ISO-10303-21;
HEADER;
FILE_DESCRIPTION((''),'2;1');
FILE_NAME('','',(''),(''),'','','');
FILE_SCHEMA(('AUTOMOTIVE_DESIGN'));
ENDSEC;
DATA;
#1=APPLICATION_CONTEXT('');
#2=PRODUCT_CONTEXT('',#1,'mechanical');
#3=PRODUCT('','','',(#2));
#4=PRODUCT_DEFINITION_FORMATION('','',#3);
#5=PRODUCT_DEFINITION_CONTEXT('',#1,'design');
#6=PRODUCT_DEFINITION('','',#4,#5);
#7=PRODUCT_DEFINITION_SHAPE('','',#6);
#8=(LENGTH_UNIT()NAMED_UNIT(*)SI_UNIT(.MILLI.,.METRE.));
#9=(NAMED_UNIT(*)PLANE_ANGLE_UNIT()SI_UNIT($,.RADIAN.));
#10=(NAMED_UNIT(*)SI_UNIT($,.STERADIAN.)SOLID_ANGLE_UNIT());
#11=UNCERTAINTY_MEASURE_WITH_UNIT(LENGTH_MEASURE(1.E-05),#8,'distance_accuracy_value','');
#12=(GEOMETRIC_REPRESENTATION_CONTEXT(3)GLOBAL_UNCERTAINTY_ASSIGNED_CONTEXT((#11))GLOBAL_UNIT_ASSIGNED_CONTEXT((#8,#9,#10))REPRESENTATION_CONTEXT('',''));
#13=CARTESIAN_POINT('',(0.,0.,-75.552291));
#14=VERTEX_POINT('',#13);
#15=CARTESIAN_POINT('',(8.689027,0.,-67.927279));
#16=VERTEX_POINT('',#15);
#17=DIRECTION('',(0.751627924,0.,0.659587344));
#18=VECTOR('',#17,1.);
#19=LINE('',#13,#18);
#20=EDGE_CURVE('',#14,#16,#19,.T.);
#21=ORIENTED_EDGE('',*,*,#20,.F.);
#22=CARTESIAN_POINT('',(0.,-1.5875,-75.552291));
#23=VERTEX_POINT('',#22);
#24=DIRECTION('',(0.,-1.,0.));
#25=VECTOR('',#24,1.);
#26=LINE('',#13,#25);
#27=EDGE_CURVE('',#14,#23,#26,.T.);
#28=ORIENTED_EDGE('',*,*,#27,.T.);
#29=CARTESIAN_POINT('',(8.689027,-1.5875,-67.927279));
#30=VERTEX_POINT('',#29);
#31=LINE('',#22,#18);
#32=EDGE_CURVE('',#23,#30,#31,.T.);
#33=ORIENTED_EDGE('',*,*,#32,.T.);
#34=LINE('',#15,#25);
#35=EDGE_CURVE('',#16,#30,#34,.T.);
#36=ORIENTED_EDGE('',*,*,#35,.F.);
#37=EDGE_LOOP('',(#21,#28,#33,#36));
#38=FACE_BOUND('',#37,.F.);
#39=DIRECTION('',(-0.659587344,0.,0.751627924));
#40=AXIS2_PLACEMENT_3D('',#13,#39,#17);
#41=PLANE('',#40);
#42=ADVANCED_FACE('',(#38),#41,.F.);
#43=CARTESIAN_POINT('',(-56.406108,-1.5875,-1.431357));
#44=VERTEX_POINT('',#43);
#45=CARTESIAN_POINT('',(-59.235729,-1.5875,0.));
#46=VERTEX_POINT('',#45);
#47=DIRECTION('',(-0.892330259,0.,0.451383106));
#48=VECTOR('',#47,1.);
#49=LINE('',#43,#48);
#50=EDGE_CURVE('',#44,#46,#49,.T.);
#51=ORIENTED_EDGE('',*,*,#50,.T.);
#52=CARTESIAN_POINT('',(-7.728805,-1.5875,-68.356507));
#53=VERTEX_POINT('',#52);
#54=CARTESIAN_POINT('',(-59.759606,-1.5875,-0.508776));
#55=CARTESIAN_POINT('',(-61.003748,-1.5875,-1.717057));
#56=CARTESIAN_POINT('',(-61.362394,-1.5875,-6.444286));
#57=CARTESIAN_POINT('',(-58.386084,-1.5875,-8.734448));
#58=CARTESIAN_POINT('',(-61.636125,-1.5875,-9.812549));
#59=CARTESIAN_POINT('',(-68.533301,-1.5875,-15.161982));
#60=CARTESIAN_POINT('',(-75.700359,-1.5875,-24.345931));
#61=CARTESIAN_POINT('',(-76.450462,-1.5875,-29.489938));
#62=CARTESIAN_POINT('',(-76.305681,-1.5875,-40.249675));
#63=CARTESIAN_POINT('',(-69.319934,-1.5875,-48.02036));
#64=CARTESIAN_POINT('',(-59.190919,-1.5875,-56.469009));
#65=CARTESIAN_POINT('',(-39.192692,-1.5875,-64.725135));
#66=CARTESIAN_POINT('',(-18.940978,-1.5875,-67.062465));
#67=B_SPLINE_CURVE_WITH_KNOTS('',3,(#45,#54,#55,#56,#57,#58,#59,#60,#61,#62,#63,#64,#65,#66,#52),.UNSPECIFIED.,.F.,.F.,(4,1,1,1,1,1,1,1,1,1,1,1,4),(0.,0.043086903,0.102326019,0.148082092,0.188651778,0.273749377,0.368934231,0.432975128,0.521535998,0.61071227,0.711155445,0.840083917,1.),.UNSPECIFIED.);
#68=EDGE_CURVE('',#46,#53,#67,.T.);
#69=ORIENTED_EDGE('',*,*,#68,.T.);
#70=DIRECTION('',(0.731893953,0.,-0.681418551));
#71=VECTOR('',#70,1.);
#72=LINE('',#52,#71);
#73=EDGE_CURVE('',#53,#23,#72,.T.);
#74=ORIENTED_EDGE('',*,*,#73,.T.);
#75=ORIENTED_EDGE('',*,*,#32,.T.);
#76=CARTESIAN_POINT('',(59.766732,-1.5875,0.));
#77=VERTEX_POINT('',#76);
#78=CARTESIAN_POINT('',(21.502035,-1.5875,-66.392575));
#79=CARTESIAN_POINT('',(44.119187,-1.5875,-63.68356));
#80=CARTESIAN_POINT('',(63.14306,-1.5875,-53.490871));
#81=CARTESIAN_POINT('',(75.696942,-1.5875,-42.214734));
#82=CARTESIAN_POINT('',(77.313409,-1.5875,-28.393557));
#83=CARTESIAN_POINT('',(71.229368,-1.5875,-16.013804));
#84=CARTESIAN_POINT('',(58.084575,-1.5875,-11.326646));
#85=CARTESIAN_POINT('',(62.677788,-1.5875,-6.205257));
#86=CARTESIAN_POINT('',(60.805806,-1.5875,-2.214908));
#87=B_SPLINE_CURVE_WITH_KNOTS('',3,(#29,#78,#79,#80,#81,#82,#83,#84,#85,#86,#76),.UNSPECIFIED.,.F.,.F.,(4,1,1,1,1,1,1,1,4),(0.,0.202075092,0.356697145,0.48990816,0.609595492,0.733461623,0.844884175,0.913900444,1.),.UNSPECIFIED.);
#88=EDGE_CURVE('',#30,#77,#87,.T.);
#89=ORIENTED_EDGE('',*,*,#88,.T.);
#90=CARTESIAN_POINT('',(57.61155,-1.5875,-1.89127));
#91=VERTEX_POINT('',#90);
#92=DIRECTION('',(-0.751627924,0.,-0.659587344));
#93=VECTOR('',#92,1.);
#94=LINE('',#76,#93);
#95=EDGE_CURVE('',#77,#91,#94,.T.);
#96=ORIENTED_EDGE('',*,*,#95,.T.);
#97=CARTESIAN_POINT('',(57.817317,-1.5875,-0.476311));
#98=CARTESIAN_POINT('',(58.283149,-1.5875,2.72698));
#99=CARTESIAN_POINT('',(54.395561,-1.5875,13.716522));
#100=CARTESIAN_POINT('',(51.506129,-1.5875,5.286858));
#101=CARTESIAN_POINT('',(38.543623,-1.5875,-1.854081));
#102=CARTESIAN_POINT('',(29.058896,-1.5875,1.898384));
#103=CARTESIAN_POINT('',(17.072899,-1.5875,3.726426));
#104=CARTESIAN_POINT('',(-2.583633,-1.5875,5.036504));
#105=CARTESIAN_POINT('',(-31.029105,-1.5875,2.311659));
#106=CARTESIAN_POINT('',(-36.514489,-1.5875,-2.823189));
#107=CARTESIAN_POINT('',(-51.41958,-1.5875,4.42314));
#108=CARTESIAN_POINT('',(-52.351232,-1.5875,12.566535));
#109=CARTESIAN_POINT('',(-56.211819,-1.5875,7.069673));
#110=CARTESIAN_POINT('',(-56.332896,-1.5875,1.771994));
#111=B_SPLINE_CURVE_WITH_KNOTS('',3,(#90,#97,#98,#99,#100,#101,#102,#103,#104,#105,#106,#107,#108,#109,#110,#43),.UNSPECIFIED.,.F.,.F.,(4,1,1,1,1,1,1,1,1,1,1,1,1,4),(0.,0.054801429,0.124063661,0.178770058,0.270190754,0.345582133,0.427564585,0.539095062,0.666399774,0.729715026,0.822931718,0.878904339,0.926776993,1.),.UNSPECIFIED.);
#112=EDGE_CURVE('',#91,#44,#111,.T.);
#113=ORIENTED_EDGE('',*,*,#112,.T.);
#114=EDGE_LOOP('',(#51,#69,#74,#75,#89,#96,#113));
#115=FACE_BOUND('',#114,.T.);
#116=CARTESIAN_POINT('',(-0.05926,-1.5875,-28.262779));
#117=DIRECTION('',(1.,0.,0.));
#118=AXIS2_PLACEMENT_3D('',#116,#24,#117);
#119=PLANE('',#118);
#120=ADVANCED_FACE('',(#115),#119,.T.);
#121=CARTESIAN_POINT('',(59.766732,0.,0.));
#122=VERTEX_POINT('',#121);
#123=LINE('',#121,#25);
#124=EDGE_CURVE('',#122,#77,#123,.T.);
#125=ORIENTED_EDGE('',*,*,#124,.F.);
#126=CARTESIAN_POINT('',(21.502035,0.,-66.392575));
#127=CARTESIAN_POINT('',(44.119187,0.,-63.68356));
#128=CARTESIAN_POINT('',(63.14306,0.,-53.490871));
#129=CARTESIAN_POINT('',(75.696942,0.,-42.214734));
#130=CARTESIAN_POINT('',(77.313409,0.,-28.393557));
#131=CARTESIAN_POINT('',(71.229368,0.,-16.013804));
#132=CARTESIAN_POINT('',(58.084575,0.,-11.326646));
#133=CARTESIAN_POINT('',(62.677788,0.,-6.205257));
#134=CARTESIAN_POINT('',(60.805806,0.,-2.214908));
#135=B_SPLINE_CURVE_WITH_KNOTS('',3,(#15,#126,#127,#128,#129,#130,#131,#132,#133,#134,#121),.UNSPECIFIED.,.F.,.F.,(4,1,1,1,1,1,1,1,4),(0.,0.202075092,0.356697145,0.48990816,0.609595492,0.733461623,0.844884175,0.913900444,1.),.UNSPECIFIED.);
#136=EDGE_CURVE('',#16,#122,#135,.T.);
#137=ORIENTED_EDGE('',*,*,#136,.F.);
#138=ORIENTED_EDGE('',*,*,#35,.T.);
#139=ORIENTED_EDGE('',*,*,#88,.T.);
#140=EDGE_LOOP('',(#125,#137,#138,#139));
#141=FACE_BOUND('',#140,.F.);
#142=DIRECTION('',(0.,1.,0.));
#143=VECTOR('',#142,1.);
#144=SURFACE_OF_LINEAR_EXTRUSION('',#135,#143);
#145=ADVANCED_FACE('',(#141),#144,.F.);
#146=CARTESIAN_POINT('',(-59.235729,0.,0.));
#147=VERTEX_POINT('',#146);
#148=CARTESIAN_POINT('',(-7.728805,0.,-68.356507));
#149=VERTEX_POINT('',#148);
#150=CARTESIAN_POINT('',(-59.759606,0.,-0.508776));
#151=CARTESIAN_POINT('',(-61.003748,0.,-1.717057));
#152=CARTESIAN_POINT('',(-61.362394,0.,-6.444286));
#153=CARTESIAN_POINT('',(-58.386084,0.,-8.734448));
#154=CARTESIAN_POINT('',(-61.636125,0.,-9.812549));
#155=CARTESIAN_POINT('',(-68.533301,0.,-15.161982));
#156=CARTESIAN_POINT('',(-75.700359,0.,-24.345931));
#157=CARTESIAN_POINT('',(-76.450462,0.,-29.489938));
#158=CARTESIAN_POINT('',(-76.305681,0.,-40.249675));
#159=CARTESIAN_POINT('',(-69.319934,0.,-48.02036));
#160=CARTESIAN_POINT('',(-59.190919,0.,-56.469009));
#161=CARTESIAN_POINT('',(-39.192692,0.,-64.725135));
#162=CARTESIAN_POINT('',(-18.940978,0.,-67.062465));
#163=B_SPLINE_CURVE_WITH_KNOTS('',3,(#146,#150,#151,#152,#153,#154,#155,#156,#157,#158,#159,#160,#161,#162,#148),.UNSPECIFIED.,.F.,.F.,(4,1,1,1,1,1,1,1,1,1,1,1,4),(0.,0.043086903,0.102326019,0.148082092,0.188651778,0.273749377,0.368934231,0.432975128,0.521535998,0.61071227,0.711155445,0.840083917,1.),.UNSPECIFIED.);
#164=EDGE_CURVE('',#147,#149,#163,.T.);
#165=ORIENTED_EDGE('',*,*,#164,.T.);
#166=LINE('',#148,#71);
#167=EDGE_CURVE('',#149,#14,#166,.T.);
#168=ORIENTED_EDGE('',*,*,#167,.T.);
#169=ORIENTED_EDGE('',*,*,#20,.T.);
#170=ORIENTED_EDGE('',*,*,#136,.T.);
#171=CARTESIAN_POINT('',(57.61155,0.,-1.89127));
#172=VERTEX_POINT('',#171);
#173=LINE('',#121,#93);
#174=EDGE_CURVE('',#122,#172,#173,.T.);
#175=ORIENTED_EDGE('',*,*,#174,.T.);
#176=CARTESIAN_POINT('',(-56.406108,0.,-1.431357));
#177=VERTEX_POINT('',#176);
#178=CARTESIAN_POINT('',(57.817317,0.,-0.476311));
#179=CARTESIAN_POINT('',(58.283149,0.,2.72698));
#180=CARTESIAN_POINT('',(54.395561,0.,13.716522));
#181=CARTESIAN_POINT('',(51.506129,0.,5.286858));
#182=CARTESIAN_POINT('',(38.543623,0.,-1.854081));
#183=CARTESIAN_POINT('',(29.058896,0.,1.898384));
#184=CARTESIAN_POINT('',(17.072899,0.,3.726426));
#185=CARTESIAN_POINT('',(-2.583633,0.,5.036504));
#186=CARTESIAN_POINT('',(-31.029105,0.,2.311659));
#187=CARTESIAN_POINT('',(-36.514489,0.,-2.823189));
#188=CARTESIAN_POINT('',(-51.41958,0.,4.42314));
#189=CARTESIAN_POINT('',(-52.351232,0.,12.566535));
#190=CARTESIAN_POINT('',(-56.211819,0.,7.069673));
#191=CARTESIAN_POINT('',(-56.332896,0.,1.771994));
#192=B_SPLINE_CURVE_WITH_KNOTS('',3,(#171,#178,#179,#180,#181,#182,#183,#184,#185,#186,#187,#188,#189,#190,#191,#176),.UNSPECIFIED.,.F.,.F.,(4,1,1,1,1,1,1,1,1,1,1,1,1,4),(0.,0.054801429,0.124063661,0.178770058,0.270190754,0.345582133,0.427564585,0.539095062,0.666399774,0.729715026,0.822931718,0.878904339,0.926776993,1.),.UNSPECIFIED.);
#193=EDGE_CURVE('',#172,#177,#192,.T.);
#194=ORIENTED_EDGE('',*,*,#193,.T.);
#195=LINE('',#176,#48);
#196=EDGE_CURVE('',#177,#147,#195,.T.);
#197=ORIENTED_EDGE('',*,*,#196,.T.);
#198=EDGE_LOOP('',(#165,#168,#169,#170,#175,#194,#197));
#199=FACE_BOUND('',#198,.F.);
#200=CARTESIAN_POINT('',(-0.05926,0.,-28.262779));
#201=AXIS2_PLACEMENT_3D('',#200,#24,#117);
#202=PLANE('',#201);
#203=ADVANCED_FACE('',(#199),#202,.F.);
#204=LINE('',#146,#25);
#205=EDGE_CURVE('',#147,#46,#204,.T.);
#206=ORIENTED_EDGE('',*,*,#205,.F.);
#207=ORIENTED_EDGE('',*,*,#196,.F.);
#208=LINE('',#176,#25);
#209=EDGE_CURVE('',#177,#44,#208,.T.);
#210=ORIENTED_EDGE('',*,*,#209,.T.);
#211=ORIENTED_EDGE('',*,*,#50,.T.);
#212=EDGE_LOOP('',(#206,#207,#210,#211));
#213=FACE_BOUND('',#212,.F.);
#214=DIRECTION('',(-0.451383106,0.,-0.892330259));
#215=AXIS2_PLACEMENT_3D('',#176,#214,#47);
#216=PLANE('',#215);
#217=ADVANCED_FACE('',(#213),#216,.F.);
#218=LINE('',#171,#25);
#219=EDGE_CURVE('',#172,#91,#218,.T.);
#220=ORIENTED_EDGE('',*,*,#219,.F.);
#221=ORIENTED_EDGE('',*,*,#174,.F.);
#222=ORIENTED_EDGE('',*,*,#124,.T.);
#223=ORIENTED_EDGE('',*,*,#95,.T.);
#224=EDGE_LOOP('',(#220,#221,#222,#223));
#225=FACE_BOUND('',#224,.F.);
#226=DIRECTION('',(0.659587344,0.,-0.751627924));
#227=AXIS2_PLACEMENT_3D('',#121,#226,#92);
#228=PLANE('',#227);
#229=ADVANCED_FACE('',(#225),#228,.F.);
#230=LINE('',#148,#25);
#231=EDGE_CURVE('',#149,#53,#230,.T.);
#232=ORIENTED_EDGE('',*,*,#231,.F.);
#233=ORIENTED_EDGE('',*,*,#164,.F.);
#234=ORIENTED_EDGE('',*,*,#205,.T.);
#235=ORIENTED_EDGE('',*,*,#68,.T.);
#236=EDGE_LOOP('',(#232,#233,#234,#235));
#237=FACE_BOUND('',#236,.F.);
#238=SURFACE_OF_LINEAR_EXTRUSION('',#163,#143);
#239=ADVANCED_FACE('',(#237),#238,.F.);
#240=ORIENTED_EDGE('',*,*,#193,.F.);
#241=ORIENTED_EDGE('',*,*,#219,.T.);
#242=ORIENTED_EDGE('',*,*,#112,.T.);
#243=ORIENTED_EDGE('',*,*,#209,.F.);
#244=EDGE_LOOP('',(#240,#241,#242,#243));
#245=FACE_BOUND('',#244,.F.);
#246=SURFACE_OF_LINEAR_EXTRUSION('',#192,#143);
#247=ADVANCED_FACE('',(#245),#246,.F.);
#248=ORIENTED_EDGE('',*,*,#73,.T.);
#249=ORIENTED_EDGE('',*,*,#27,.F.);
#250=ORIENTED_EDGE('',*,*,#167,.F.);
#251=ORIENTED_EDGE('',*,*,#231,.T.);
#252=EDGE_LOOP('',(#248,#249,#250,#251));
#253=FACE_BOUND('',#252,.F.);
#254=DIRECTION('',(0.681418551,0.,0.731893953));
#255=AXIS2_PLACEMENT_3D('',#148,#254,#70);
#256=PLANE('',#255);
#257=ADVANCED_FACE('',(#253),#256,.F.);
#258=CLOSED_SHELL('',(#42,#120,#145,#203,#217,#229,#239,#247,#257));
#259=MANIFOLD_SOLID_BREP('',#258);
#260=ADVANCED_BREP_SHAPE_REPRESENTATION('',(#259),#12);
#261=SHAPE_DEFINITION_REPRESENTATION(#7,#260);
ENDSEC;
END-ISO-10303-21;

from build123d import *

# Parameters (mm, degrees)
F1_DEPTH = 1.5875
F2_DEPTH = 1.5875


with BuildPart() as f1:
    # F0 (on Front) → F1 (new body)
    with BuildSketch(Plane.XZ):
        with BuildLine():
            add(Edge.make_bspline(
                [(-59.2357292771, 0), (-59.7596059699, -0.5087763955), (-61.00374777, -1.7170568732), (-61.3623939884, -6.4442855853), (-58.3860835137, -8.7344477825), (-61.6361250655, -9.812548713), (-68.5333012636, -15.1619816081), (-75.7003591382, -24.3459306528), (-76.4504615567, -29.4899375643), (-76.3056806318, -40.2496750458), (-69.3199338704, -48.02035996), (-59.1909187166, -56.46900862), (-39.1926921937, -64.7251350769), (-18.9409775047, -67.0624654511), (-7.7288052998, -68.3565065265)],
                knots=[0, 0, 0, 0, 0.0430869026, 0.1023260194, 0.1480820916, 0.1886517783, 0.273749377, 0.368934231, 0.4329751281, 0.521535998, 0.6107122698, 0.7111554455, 0.8400839171, 1, 1, 1, 1], degree=3))
            Line((-7.7288052998, -68.3565065265), (0, -75.5522912198))
            Line((0, -75.5522912198), (8.6890272796, -67.9272785783))
            add(Edge.make_bspline(
                [(8.6890272796, -67.9272785783), (21.5020345675, -66.3925749588), (44.1191868011, -63.6835602353), (63.1430598193, -53.4908705309), (75.6969418313, -42.2147338387), (77.3134091979, -28.3935571418), (71.2293681343, -16.0138035637), (58.0845752111, -11.3266463316), (62.6777880395, -6.2052573904), (60.8058061073, -2.2149081201), (59.7667321563, 0)],
                knots=[0, 0, 0, 0, 0.2020750921, 0.3566971451, 0.4899081604, 0.6095954924, 0.7334616233, 0.8448841751, 0.9139004441, 1, 1, 1, 1], degree=3))
            Line((59.7667321563, 0), (57.6115497291, -1.891269612))
            add(Edge.make_bspline(
                [(57.6115497291, -1.891269612), (57.8173171438, -0.4763111229), (58.2831491365, 2.7269799993), (54.3955609907, 13.7165221365), (51.5061285832, 5.2868580937), (38.5436234556, -1.8540809789), (29.0588963585, 1.8983841422), (17.0728993683, 3.7264259799), (-2.5836330622, 5.0365044878), (-31.0291045292, 2.3116589866), (-36.5144885565, -2.8231885653), (-51.4195797017, 4.4231399421), (-52.351231671, 12.5665350661), (-56.2118192651, 7.0696730875), (-56.3328961042, 1.7719943046), (-56.4061077302, -1.4313572253)],
                knots=[0, 0, 0, 0, 0.0548014286, 0.1240636607, 0.1787700579, 0.2701907538, 0.3455821333, 0.4275645849, 0.5390950617, 0.6663997735, 0.7297150258, 0.8229317182, 0.8789043387, 0.9267769928, 1, 1, 1, 1], degree=3))
            Line((-56.4061077302, -1.4313572253), (-59.2357292771, 0))
        make_face()
        with BuildLine():
            ThreePointArc((62.7712979913, -48.2902638614), (36.0960540485, -60.801373499), (6.8648238666, -64.4934847951))
            Line((6.8648238666, -64.4934847951), (1.070294762, -70.7172378898))
            Line((1.070294762, -70.7172378898), (-5.4487906159, -64.6477442285))
            ThreePointArc((-5.4487906159, -64.6477442285), (-33.1849145902, -61.6573470529), (-59.1284260154, -51.4021404088))
            ThreePointArc((-59.1284260154, -51.4021404088), (-68.2041566517, -43.490922661), (-72.6489946246, -32.3016569018))
            ThreePointArc((-72.6489946246, -32.3016569018), (-70.5167481856, -24.2359465298), (-65.4594823718, -17.6007207483))
            ThreePointArc((-65.4594823718, -17.6007207483), (-60.7158899758, -13.6643104627), (-55.4800182581, -10.4112131521))
            ThreePointArc((-55.4800182581, -10.4112131521), (-57.7695720252, -7.8990729249), (-57.5188361108, -4.5093772933))
            ThreePointArc((-57.5188361108, -4.5093772933), (-54.6818050534, -6.009346749), (-51.5096895397, -6.4954915385))
            ThreePointArc((-51.5096895397, -6.4954915385), (-53.4709468256, -0.8916203218), (-53.7065769196, 5.0408649258))
            ThreePointArc((-53.7065769196, 5.0408649258), (-45.6081761104, -0.0632483052), (-37.1306762099, -4.5093772933))
            ThreePointArc((-37.1306762099, -4.5093772933), (0.2651828003, 1.2478062211), (37.7689823508, -3.7582353689))
            ThreePointArc((37.7689823508, -3.7582353689), (46.2458250792, -0.0220776028), (53.5429753363, 5.6847021915))
            ThreePointArc((53.5429753363, 5.6847021915), (54.6067557991, -0.7157013162), (52.2553026676, -6.7628049292))
            Line((52.2553026676, -6.7628049292), (58.3717487752, -4.2947647162))
            ThreePointArc((58.3717487752, -4.2947647162), (57.7853929693, -7.9420748723), (55.7964034379, -11.0550485551))
            ThreePointArc((55.7964034379, -11.0550485551), (65.3527326965, -17.9155744287), (71.5704038739, -27.9021058232))
            ThreePointArc((71.5704038739, -27.9021058232), (70.5523756086, -39.5555807138), (62.7712979913, -48.2902638614))
        make_face(mode=Mode.SUBTRACT)
        with BuildLine():
            Line((1.070294762, -70.7172378898), (6.8648238666, -64.4934847951))
            ThreePointArc((6.8648238666, -64.4934847951), (36.0960540485, -60.801373499), (62.7712979913, -48.2902638614))
            ThreePointArc((62.7712979913, -48.2902638614), (70.5523756086, -39.5555807138), (71.5704038739, -27.9021058232))
            ThreePointArc((71.5704038739, -27.9021058232), (65.3527326965, -17.9155744287), (55.7964034379, -11.0550485551))
            ThreePointArc((55.7964034379, -11.0550485551), (57.7853929693, -7.9420748723), (58.3717487752, -4.2947647162))
            Line((58.3717487752, -4.2947647162), (52.2553026676, -6.7628049292))
            ThreePointArc((52.2553026676, -6.7628049292), (54.6067557991, -0.7157013162), (53.5429753363, 5.6847021915))
            ThreePointArc((53.5429753363, 5.6847021915), (46.2458250792, -0.0220776028), (37.7689823508, -3.7582353689))
            ThreePointArc((37.7689823508, -3.7582353689), (0.2651828003, 1.2478062211), (-37.1306762099, -4.5093772933))
            ThreePointArc((-37.1306762099, -4.5093772933), (-45.6081761104, -0.0632483052), (-53.7065769196, 5.0408649258))
            ThreePointArc((-53.7065769196, 5.0408649258), (-53.4709468256, -0.8916203218), (-51.5096895397, -6.4954915385))
            ThreePointArc((-51.5096895397, -6.4954915385), (-54.6818050534, -6.009346749), (-57.5188361108, -4.5093772933))
            ThreePointArc((-57.5188361108, -4.5093772933), (-57.7695720252, -7.8990729249), (-55.4800182581, -10.4112131521))
            ThreePointArc((-55.4800182581, -10.4112131521), (-60.7158899758, -13.6643104627), (-65.4594823718, -17.6007207483))
            ThreePointArc((-65.4594823718, -17.6007207483), (-70.5167481856, -24.2359465298), (-72.6489946246, -32.3016569018))
            ThreePointArc((-72.6489946246, -32.3016569018), (-68.2041566517, -43.490922661), (-59.1284260154, -51.4021404088))
            ThreePointArc((-59.1284260154, -51.4021404088), (-33.1849145902, -61.6573470529), (-5.4487906159, -64.6477442285))
            Line((-5.4487906159, -64.6477442285), (1.070294762, -70.7172378898))
        make_face()
        with BuildLine():
            Line((-50.0074103475, -16.6349653155), (-48.6124269664, -17.8153328598))
            ThreePointArc((-48.6124269664, -17.8153328598), (-51.8600237223, -24.9776982035), (-51.617000252, -32.8381881118))
            Line((-51.617000252, -32.8381881118), (-55.265404284, -31.2285963446))
            add(Edge.make_bspline(
                [(-17.386354506, -50.1144677401), (-22.9724960998, -50.7953987205), (-34.2706963945, -52.172609533), (-50.5425044692, -43.6572072192), (-55.9866739518, -36.4960401055), (-55.4837729561, -32.8233462017), (-55.265404284, -31.2285963446)],
                knots=[0, 0, 0, 0, 0.3075519395, 0.6220364012, 0.8358813963, 1, 1, 1, 1], degree=3))
            Line((-17.386354506, -50.1144677401), (-19.6397826076, -54.7286309302))
            Line((-19.6397826076, -54.7286309302), (-13.4160285816, -53.1190410256))
            Line((-13.4160285816, -53.1190410256), (-9.3383966014, -60.4158528149))
            add(Edge.make_bspline(
                [(-50.0074103475, -16.6349653155), (-53.6208253934, -19.8234806389), (-60.8507431395, -26.2032358643), (-58.762664158, -42.3664765964), (-45.2648255888, -50.4822624002), (-35.7544140532, -56.0293491905), (-24.0468068887, -58.3858298268), (-9.5907632304, -60.4486232358), (-9.3576538975, -60.4183534217), (-9.3383966014, -60.4158528149)],
                knots=[0, 0, 0, 0, 0.1667763218, 0.3336951535, 0.5081392217, 0.6555495119, 0.821499441, 0.9852539661, 1, 1, 1, 1], degree=3))
        make_face(mode=Mode.SUBTRACT)
        with BuildLine():
            add(Edge.make_bspline(
                [(-40.3498597443, -22.5368011743), (-41.6391102014, -25.8708730448), (-44.2569145923, -32.6406577166), (-36.2841632265, -42.0200499295), (-19.5902032399, -44.9502171335), (-13.4243927469, -40.3096247345), (-10.6453151963, -38.2179992827)],
                knots=[0, 0, 0, 0, 0.2314315656, 0.4699184438, 0.7610796254, 1, 1, 1, 1], degree=3))
            Line((-40.3498597443, -22.5368011743), (-35.7662363223, -24.5589901806))
            add(Edge.make_bspline(
                [(-13.523333706, -36.7012061179), (-15.4137632298, -38.2771311693), (-19.5801724988, -41.7503887856), (-31.4195201419, -41.4414108341), (-38.8194485242, -33.5612417818), (-36.776895956, -27.5388722538), (-35.7662363223, -24.5589901806)],
                knots=[0, 0, 0, 0, 0.2280173022, 0.5025383857, 0.7538548673, 1, 1, 1, 1], degree=3))
            Line((-13.523333706, -36.7012061179), (-10.6453151963, -38.2179992827))
        make_face(mode=Mode.SUBTRACT)
        with BuildLine():
            ThreePointArc((-18.7813322991, -33.8039398193), (-24.8244059816, -35.7779646435), (-26.4000650495, -29.6190027148))
            Line((-26.4000650495, -29.6190027148), (-18.7813322991, -33.8039398193))
        make_face(mode=Mode.SUBTRACT)
        with BuildLine():
            ThreePointArc((1.4995191013, -37.2377373278), (7.8406058431, -51.9864878365), (0, -65.9957677126))
            ThreePointArc((0, -65.9957677126), (-6.7782408554, -53.7236985284), (-3.3292553853, -40.1349999011))
            ThreePointArc((-3.3292553853, -40.1349999011), (-4.9903607349, -51.2794326452), (0, -61.3816082478))
            Line((0, -61.3816082478), (1.4995191013, -37.2377373278))
        make_face(mode=Mode.SUBTRACT)
        with BuildLine():
            Line((11.461718307, -59.9891306942), (14.9127813056, -53.4409582615))
            Line((14.9127813056, -53.4409582615), (19.8488626629, -54.7286309302))
            Line((19.8488626629, -54.7286309302), (17.8100466728, -50.4363849759))
            add(Edge.make_bspline(
                [(17.8100466728, -50.4363849759), (22.8736972439, -50.6977149879), (32.8840342231, -51.2143386068), (46.4372168065, -46.5893989437), (55.8220494766, -37.9113824749), (55.879555258, -33.1297871275), (55.9037104249, -31.1212893575)],
                knots=[0, 0, 0, 0, 0.2851056864, 0.5636257785, 0.8167020446, 1, 1, 1, 1], degree=3))
            Line((55.9037104249, -31.1212893575), (52.1324010559, -32.9126605713))
            ThreePointArc((52.1324010559, -32.9126605713), (52.3343427132, -24.9303001847), (48.9288121462, -17.7080277354))
            Line((48.9288121462, -17.7080277354), (50.2245857241, -17.0925355389))
            ThreePointArc((50.2245857241, -17.0925355389), (55.152285008, -21.5169376862), (58.8009729981, -27.0436573774))
            ThreePointArc((58.8009729981, -27.0436573774), (58.1591030988, -37.1048918738), (52.5772199035, -45.5003082752))
            ThreePointArc((52.5772199035, -45.5003082752), (33.0881241824, -55.777284055), (11.461718307, -59.9891306942))
        make_face(mode=Mode.SUBTRACT)
        with BuildLine():
            Line((19.8488626629, -34.1258607805), (27.2529833019, -29.6190027148))
            ThreePointArc((27.2529833019, -29.6190027148), (25.8207552879, -35.6014402887), (19.8488626629, -34.1258607805))
        make_face(mode=Mode.SUBTRACT)
        with BuildLine():
            Line((35.6956343991, -25.2653629386), (40.9881621599, -22.7514132857))
            ThreePointArc((40.9881621599, -22.7514132857), (42.7533981745, -33.1083105218), (35.4767949976, -40.6867288759))
            ThreePointArc((35.4767949976, -40.6867288759), (22.6287955197, -43.1555219381), (10.5132311583, -38.2179992827))
            Line((10.5132311583, -38.2179992827), (14.2689440399, -36.271981895))
            ThreePointArc((14.2689440399, -36.271981895), (23.5486784179, -40.6867288759), (33.5840433836, -38.4742842924))
            ThreePointArc((33.5840433836, -38.4742842924), (38.2950984386, -32.4541569621), (35.6956343991, -25.2653629386))
        make_face(mode=Mode.SUBTRACT)
        with BuildLine():
            add(Edge.make_bspline(
                [(-50.6512448192, 0), (-49.9465646565, 0.6234373086), (-39.6465777283, -10.822659465), (-23.6643436705, -12.0991564868), (-10.4573806993, -21.1717940532), (-4.3437560779, -24.9584323596), (-0.2434439157, -36.9668415379), (-5.1097998002, -31.3621866583), (-12.4192891928, -25.9523472348), (-23.9809118135, -20.6913503107), (-36.0562860349, -16.1085291797), (-45.660706608, -11.9489061352), (-51.3032818782, -0.5768634492), (-50.6512448192, 0)],
                knots=[0, 0, 0, 0, 0.0981485842, 0.2149445601, 0.3211160362, 0.3998965502, 0.4797088254, 0.5318077649, 0.6183410319, 0.7170063852, 0.8150967729, 0.9091836019, 1, 1, 1, 1], degree=3))
        make_face(mode=Mode.SUBTRACT)
        with BuildLine():
            add(Edge.make_bspline(
                [(2.8944984078, -33.3747155964), (2.2737223281, -32.8508111555), (5.8582616163, -24.1643331539), (11.1966887984, -20.6828012031), (20.4091181596, -15.4189626268), (28.190893796, -11.370734004), (39.6560708791, -10.0568503783), (54.6284080306, 4.0328641758), (46.3253786103, -12.3225911195), (34.8879303244, -16.4717635447), (20.5751527115, -22.1502776194), (10.8228903495, -25.7378121215), (3.5496759959, -33.9276532163), (2.8944984078, -33.3747155964)],
                knots=[0, 0, 0, 0, 0.0797697978, 0.1557530683, 0.2439859946, 0.3252187516, 0.424447931, 0.5233385937, 0.6106688039, 0.7127052128, 0.8194563407, 0.9158096044, 1, 1, 1, 1], degree=3))
        make_face(mode=Mode.SUBTRACT)
        with BuildLine():
            ThreePointArc((-51.617000252, -32.8381881118), (-51.8600237223, -24.9776982035), (-48.6124269664, -17.8153328598))
            Line((-48.6124269664, -17.8153328598), (-50.0074103475, -16.6349653155))
            add(Edge.make_bspline(
                [(-50.0074103475, -16.6349653155), (-53.6208253934, -19.8234806389), (-60.8507431395, -26.2032358643), (-58.762664158, -42.3664765964), (-45.2648255888, -50.4822624002), (-35.7544140532, -56.0293491905), (-24.0468068887, -58.3858298268), (-9.5907632304, -60.4486232358), (-9.3576538975, -60.4183534217), (-9.3383966014, -60.4158528149)],
                knots=[0, 0, 0, 0, 0.1667763218, 0.3336951535, 0.5081392217, 0.6555495119, 0.821499441, 0.9852539661, 1, 1, 1, 1], degree=3))
            Line((-9.3383966014, -60.4158528149), (-13.4160285816, -53.1190410256))
            Line((-13.4160285816, -53.1190410256), (-19.6397826076, -54.7286309302))
            Line((-19.6397826076, -54.7286309302), (-17.386354506, -50.1144677401))
            add(Edge.make_bspline(
                [(-17.386354506, -50.1144677401), (-22.9724960998, -50.7953987205), (-34.2706963945, -52.172609533), (-50.5425044692, -43.6572072192), (-55.9866739518, -36.4960401055), (-55.4837729561, -32.8233462017), (-55.265404284, -31.2285963446)],
                knots=[0, 0, 0, 0, 0.3075519395, 0.6220364012, 0.8358813963, 1, 1, 1, 1], degree=3))
            Line((-55.265404284, -31.2285963446), (-51.617000252, -32.8381881118))
        make_face()
        with BuildLine():
            Line((19.8488626629, -54.7286309302), (14.9127813056, -53.4409582615))
            Line((14.9127813056, -53.4409582615), (11.461718307, -59.9891306942))
            ThreePointArc((11.461718307, -59.9891306942), (33.0881241824, -55.777284055), (52.5772199035, -45.5003082752))
            ThreePointArc((52.5772199035, -45.5003082752), (58.1591030988, -37.1048918738), (58.8009729981, -27.0436573774))
            ThreePointArc((58.8009729981, -27.0436573774), (55.152285008, -21.5169376862), (50.2245857241, -17.0925355389))
            Line((50.2245857241, -17.0925355389), (48.9288121462, -17.7080277354))
            ThreePointArc((48.9288121462, -17.7080277354), (52.3343427132, -24.9303001847), (52.1324010559, -32.9126605713))
            Line((52.1324010559, -32.9126605713), (55.9037104249, -31.1212893575))
            add(Edge.make_bspline(
                [(17.8100466728, -50.4363849759), (22.8736972439, -50.6977149879), (32.8840342231, -51.2143386068), (46.4372168065, -46.5893989437), (55.8220494766, -37.9113824749), (55.879555258, -33.1297871275), (55.9037104249, -31.1212893575)],
                knots=[0, 0, 0, 0, 0.2851056864, 0.5636257785, 0.8167020446, 1, 1, 1, 1], degree=3))
            Line((17.8100466728, -50.4363849759), (19.8488626629, -54.7286309302))
        make_face()
        with BuildLine():
            add(Edge.make_bspline(
                [(-50.6512448192, 0), (-49.9465646565, 0.6234373086), (-39.6465777283, -10.822659465), (-23.6643436705, -12.0991564868), (-10.4573806993, -21.1717940532), (-4.3437560779, -24.9584323596), (-0.2434439157, -36.9668415379), (-5.1097998002, -31.3621866583), (-12.4192891928, -25.9523472348), (-23.9809118135, -20.6913503107), (-36.0562860349, -16.1085291797), (-45.660706608, -11.9489061352), (-51.3032818782, -0.5768634492), (-50.6512448192, 0)],
                knots=[0, 0, 0, 0, 0.0981485842, 0.2149445601, 0.3211160362, 0.3998965502, 0.4797088254, 0.5318077649, 0.6183410319, 0.7170063852, 0.8150967729, 0.9091836019, 1, 1, 1, 1], degree=3))
        make_face()
        with BuildLine():
            add(Edge.make_bspline(
                [(2.8944984078, -33.3747155964), (2.2737223281, -32.8508111555), (5.8582616163, -24.1643331539), (11.1966887984, -20.6828012031), (20.4091181596, -15.4189626268), (28.190893796, -11.370734004), (39.6560708791, -10.0568503783), (54.6284080306, 4.0328641758), (46.3253786103, -12.3225911195), (34.8879303244, -16.4717635447), (20.5751527115, -22.1502776194), (10.8228903495, -25.7378121215), (3.5496759959, -33.9276532163), (2.8944984078, -33.3747155964)],
                knots=[0, 0, 0, 0, 0.0797697978, 0.1557530683, 0.2439859946, 0.3252187516, 0.424447931, 0.5233385937, 0.6106688039, 0.7127052128, 0.8194563407, 0.9158096044, 1, 1, 1, 1], degree=3))
        make_face()
        with BuildLine():
            ThreePointArc((-3.3292553853, -40.1349999011), (-6.7782408554, -53.7236985284), (0, -65.9957677126))
            ThreePointArc((0, -65.9957677126), (7.8406058431, -51.9864878365), (1.4995191013, -37.2377373278))
            Line((1.4995191013, -37.2377373278), (0, -61.3816082478))
            ThreePointArc((0, -61.3816082478), (-4.9903607349, -51.2794326452), (-3.3292553853, -40.1349999011))
        make_face()
        with BuildLine():
            ThreePointArc((35.4767949976, -40.6867288759), (42.7533981745, -33.1083105218), (40.9881621599, -22.7514132857))
            Line((40.9881621599, -22.7514132857), (35.6956343991, -25.2653629386))
            ThreePointArc((35.6956343991, -25.2653629386), (38.2950984386, -32.4541569621), (33.5840433836, -38.4742842924))
            ThreePointArc((33.5840433836, -38.4742842924), (23.5486784179, -40.6867288759), (14.2689440399, -36.271981895))
            Line((14.2689440399, -36.271981895), (10.5132311583, -38.2179992827))
            ThreePointArc((10.5132311583, -38.2179992827), (22.6287955197, -43.1555219381), (35.4767949976, -40.6867288759))
        make_face()
        with BuildLine():
            Line((-35.7662363223, -24.5589901806), (-40.3498597443, -22.5368011743))
            add(Edge.make_bspline(
                [(-40.3498597443, -22.5368011743), (-41.6391102014, -25.8708730448), (-44.2569145923, -32.6406577166), (-36.2841632265, -42.0200499295), (-19.5902032399, -44.9502171335), (-13.4243927469, -40.3096247345), (-10.6453151963, -38.2179992827)],
                knots=[0, 0, 0, 0, 0.2314315656, 0.4699184438, 0.7610796254, 1, 1, 1, 1], degree=3))
            Line((-10.6453151963, -38.2179992827), (-13.523333706, -36.7012061179))
            add(Edge.make_bspline(
                [(-13.523333706, -36.7012061179), (-15.4137632298, -38.2771311693), (-19.5801724988, -41.7503887856), (-31.4195201419, -41.4414108341), (-38.8194485242, -33.5612417818), (-36.776895956, -27.5388722538), (-35.7662363223, -24.5589901806)],
                knots=[0, 0, 0, 0, 0.2280173022, 0.5025383857, 0.7538548673, 1, 1, 1, 1], degree=3))
        make_face()
        with BuildLine():
            Line((-18.7813322991, -33.8039398193), (-26.4000650495, -29.6190027148))
            ThreePointArc((-26.4000650495, -29.6190027148), (-24.8244059816, -35.7779646435), (-18.7813322991, -33.8039398193))
        make_face()
        with BuildLine():
            ThreePointArc((19.8488626629, -34.1258607805), (25.8207552879, -35.6014402887), (27.2529833019, -29.6190027148))
            Line((27.2529833019, -29.6190027148), (19.8488626629, -34.1258607805))
        make_face()
    extrude(amount=F1_DEPTH)

    # F0 (on Front) → F2 (join)
    with BuildSketch(Plane.XZ):
        with BuildLine():
            add(Edge.make_bspline(
                [(-59.2357292771, 0), (-59.7596059699, -0.5087763955), (-61.00374777, -1.7170568732), (-61.3623939884, -6.4442855853), (-58.3860835137, -8.7344477825), (-61.6361250655, -9.812548713), (-68.5333012636, -15.1619816081), (-75.7003591382, -24.3459306528), (-76.4504615567, -29.4899375643), (-76.3056806318, -40.2496750458), (-69.3199338704, -48.02035996), (-59.1909187166, -56.46900862), (-39.1926921937, -64.7251350769), (-18.9409775047, -67.0624654511), (-7.7288052998, -68.3565065265)],
                knots=[0, 0, 0, 0, 0.0430869026, 0.1023260194, 0.1480820916, 0.1886517783, 0.273749377, 0.368934231, 0.4329751281, 0.521535998, 0.6107122698, 0.7111554455, 0.8400839171, 1, 1, 1, 1], degree=3))
            Line((-7.7288052998, -68.3565065265), (0, -75.5522912198))
            Line((0, -75.5522912198), (8.6890272796, -67.9272785783))
            add(Edge.make_bspline(
                [(8.6890272796, -67.9272785783), (21.5020345675, -66.3925749588), (44.1191868011, -63.6835602353), (63.1430598193, -53.4908705309), (75.6969418313, -42.2147338387), (77.3134091979, -28.3935571418), (71.2293681343, -16.0138035637), (58.0845752111, -11.3266463316), (62.6777880395, -6.2052573904), (60.8058061073, -2.2149081201), (59.7667321563, 0)],
                knots=[0, 0, 0, 0, 0.2020750921, 0.3566971451, 0.4899081604, 0.6095954924, 0.7334616233, 0.8448841751, 0.9139004441, 1, 1, 1, 1], degree=3))
            Line((59.7667321563, 0), (57.6115497291, -1.891269612))
            add(Edge.make_bspline(
                [(57.6115497291, -1.891269612), (57.8173171438, -0.4763111229), (58.2831491365, 2.7269799993), (54.3955609907, 13.7165221365), (51.5061285832, 5.2868580937), (38.5436234556, -1.8540809789), (29.0588963585, 1.8983841422), (17.0728993683, 3.7264259799), (-2.5836330622, 5.0365044878), (-31.0291045292, 2.3116589866), (-36.5144885565, -2.8231885653), (-51.4195797017, 4.4231399421), (-52.351231671, 12.5665350661), (-56.2118192651, 7.0696730875), (-56.3328961042, 1.7719943046), (-56.4061077302, -1.4313572253)],
                knots=[0, 0, 0, 0, 0.0548014286, 0.1240636607, 0.1787700579, 0.2701907538, 0.3455821333, 0.4275645849, 0.5390950617, 0.6663997735, 0.7297150258, 0.8229317182, 0.8789043387, 0.9267769928, 1, 1, 1, 1], degree=3))
            Line((-56.4061077302, -1.4313572253), (-59.2357292771, 0))
        make_face()
        with BuildLine():
            ThreePointArc((62.7712979913, -48.2902638614), (36.0960540485, -60.801373499), (6.8648238666, -64.4934847951))
            Line((6.8648238666, -64.4934847951), (1.070294762, -70.7172378898))
            Line((1.070294762, -70.7172378898), (-5.4487906159, -64.6477442285))
            ThreePointArc((-5.4487906159, -64.6477442285), (-33.1849145902, -61.6573470529), (-59.1284260154, -51.4021404088))
            ThreePointArc((-59.1284260154, -51.4021404088), (-68.2041566517, -43.490922661), (-72.6489946246, -32.3016569018))
            ThreePointArc((-72.6489946246, -32.3016569018), (-70.5167481856, -24.2359465298), (-65.4594823718, -17.6007207483))
            ThreePointArc((-65.4594823718, -17.6007207483), (-60.7158899758, -13.6643104627), (-55.4800182581, -10.4112131521))
            ThreePointArc((-55.4800182581, -10.4112131521), (-57.7695720252, -7.8990729249), (-57.5188361108, -4.5093772933))
            ThreePointArc((-57.5188361108, -4.5093772933), (-54.6818050534, -6.009346749), (-51.5096895397, -6.4954915385))
            ThreePointArc((-51.5096895397, -6.4954915385), (-53.4709468256, -0.8916203218), (-53.7065769196, 5.0408649258))
            ThreePointArc((-53.7065769196, 5.0408649258), (-45.6081761104, -0.0632483052), (-37.1306762099, -4.5093772933))
            ThreePointArc((-37.1306762099, -4.5093772933), (0.2651828003, 1.2478062211), (37.7689823508, -3.7582353689))
            ThreePointArc((37.7689823508, -3.7582353689), (46.2458250792, -0.0220776028), (53.5429753363, 5.6847021915))
            ThreePointArc((53.5429753363, 5.6847021915), (54.6067557991, -0.7157013162), (52.2553026676, -6.7628049292))
            Line((52.2553026676, -6.7628049292), (58.3717487752, -4.2947647162))
            ThreePointArc((58.3717487752, -4.2947647162), (57.7853929693, -7.9420748723), (55.7964034379, -11.0550485551))
            ThreePointArc((55.7964034379, -11.0550485551), (65.3527326965, -17.9155744287), (71.5704038739, -27.9021058232))
            ThreePointArc((71.5704038739, -27.9021058232), (70.5523756086, -39.5555807138), (62.7712979913, -48.2902638614))
        make_face(mode=Mode.SUBTRACT)
    extrude(amount=F2_DEPTH)


solid = f1.part
